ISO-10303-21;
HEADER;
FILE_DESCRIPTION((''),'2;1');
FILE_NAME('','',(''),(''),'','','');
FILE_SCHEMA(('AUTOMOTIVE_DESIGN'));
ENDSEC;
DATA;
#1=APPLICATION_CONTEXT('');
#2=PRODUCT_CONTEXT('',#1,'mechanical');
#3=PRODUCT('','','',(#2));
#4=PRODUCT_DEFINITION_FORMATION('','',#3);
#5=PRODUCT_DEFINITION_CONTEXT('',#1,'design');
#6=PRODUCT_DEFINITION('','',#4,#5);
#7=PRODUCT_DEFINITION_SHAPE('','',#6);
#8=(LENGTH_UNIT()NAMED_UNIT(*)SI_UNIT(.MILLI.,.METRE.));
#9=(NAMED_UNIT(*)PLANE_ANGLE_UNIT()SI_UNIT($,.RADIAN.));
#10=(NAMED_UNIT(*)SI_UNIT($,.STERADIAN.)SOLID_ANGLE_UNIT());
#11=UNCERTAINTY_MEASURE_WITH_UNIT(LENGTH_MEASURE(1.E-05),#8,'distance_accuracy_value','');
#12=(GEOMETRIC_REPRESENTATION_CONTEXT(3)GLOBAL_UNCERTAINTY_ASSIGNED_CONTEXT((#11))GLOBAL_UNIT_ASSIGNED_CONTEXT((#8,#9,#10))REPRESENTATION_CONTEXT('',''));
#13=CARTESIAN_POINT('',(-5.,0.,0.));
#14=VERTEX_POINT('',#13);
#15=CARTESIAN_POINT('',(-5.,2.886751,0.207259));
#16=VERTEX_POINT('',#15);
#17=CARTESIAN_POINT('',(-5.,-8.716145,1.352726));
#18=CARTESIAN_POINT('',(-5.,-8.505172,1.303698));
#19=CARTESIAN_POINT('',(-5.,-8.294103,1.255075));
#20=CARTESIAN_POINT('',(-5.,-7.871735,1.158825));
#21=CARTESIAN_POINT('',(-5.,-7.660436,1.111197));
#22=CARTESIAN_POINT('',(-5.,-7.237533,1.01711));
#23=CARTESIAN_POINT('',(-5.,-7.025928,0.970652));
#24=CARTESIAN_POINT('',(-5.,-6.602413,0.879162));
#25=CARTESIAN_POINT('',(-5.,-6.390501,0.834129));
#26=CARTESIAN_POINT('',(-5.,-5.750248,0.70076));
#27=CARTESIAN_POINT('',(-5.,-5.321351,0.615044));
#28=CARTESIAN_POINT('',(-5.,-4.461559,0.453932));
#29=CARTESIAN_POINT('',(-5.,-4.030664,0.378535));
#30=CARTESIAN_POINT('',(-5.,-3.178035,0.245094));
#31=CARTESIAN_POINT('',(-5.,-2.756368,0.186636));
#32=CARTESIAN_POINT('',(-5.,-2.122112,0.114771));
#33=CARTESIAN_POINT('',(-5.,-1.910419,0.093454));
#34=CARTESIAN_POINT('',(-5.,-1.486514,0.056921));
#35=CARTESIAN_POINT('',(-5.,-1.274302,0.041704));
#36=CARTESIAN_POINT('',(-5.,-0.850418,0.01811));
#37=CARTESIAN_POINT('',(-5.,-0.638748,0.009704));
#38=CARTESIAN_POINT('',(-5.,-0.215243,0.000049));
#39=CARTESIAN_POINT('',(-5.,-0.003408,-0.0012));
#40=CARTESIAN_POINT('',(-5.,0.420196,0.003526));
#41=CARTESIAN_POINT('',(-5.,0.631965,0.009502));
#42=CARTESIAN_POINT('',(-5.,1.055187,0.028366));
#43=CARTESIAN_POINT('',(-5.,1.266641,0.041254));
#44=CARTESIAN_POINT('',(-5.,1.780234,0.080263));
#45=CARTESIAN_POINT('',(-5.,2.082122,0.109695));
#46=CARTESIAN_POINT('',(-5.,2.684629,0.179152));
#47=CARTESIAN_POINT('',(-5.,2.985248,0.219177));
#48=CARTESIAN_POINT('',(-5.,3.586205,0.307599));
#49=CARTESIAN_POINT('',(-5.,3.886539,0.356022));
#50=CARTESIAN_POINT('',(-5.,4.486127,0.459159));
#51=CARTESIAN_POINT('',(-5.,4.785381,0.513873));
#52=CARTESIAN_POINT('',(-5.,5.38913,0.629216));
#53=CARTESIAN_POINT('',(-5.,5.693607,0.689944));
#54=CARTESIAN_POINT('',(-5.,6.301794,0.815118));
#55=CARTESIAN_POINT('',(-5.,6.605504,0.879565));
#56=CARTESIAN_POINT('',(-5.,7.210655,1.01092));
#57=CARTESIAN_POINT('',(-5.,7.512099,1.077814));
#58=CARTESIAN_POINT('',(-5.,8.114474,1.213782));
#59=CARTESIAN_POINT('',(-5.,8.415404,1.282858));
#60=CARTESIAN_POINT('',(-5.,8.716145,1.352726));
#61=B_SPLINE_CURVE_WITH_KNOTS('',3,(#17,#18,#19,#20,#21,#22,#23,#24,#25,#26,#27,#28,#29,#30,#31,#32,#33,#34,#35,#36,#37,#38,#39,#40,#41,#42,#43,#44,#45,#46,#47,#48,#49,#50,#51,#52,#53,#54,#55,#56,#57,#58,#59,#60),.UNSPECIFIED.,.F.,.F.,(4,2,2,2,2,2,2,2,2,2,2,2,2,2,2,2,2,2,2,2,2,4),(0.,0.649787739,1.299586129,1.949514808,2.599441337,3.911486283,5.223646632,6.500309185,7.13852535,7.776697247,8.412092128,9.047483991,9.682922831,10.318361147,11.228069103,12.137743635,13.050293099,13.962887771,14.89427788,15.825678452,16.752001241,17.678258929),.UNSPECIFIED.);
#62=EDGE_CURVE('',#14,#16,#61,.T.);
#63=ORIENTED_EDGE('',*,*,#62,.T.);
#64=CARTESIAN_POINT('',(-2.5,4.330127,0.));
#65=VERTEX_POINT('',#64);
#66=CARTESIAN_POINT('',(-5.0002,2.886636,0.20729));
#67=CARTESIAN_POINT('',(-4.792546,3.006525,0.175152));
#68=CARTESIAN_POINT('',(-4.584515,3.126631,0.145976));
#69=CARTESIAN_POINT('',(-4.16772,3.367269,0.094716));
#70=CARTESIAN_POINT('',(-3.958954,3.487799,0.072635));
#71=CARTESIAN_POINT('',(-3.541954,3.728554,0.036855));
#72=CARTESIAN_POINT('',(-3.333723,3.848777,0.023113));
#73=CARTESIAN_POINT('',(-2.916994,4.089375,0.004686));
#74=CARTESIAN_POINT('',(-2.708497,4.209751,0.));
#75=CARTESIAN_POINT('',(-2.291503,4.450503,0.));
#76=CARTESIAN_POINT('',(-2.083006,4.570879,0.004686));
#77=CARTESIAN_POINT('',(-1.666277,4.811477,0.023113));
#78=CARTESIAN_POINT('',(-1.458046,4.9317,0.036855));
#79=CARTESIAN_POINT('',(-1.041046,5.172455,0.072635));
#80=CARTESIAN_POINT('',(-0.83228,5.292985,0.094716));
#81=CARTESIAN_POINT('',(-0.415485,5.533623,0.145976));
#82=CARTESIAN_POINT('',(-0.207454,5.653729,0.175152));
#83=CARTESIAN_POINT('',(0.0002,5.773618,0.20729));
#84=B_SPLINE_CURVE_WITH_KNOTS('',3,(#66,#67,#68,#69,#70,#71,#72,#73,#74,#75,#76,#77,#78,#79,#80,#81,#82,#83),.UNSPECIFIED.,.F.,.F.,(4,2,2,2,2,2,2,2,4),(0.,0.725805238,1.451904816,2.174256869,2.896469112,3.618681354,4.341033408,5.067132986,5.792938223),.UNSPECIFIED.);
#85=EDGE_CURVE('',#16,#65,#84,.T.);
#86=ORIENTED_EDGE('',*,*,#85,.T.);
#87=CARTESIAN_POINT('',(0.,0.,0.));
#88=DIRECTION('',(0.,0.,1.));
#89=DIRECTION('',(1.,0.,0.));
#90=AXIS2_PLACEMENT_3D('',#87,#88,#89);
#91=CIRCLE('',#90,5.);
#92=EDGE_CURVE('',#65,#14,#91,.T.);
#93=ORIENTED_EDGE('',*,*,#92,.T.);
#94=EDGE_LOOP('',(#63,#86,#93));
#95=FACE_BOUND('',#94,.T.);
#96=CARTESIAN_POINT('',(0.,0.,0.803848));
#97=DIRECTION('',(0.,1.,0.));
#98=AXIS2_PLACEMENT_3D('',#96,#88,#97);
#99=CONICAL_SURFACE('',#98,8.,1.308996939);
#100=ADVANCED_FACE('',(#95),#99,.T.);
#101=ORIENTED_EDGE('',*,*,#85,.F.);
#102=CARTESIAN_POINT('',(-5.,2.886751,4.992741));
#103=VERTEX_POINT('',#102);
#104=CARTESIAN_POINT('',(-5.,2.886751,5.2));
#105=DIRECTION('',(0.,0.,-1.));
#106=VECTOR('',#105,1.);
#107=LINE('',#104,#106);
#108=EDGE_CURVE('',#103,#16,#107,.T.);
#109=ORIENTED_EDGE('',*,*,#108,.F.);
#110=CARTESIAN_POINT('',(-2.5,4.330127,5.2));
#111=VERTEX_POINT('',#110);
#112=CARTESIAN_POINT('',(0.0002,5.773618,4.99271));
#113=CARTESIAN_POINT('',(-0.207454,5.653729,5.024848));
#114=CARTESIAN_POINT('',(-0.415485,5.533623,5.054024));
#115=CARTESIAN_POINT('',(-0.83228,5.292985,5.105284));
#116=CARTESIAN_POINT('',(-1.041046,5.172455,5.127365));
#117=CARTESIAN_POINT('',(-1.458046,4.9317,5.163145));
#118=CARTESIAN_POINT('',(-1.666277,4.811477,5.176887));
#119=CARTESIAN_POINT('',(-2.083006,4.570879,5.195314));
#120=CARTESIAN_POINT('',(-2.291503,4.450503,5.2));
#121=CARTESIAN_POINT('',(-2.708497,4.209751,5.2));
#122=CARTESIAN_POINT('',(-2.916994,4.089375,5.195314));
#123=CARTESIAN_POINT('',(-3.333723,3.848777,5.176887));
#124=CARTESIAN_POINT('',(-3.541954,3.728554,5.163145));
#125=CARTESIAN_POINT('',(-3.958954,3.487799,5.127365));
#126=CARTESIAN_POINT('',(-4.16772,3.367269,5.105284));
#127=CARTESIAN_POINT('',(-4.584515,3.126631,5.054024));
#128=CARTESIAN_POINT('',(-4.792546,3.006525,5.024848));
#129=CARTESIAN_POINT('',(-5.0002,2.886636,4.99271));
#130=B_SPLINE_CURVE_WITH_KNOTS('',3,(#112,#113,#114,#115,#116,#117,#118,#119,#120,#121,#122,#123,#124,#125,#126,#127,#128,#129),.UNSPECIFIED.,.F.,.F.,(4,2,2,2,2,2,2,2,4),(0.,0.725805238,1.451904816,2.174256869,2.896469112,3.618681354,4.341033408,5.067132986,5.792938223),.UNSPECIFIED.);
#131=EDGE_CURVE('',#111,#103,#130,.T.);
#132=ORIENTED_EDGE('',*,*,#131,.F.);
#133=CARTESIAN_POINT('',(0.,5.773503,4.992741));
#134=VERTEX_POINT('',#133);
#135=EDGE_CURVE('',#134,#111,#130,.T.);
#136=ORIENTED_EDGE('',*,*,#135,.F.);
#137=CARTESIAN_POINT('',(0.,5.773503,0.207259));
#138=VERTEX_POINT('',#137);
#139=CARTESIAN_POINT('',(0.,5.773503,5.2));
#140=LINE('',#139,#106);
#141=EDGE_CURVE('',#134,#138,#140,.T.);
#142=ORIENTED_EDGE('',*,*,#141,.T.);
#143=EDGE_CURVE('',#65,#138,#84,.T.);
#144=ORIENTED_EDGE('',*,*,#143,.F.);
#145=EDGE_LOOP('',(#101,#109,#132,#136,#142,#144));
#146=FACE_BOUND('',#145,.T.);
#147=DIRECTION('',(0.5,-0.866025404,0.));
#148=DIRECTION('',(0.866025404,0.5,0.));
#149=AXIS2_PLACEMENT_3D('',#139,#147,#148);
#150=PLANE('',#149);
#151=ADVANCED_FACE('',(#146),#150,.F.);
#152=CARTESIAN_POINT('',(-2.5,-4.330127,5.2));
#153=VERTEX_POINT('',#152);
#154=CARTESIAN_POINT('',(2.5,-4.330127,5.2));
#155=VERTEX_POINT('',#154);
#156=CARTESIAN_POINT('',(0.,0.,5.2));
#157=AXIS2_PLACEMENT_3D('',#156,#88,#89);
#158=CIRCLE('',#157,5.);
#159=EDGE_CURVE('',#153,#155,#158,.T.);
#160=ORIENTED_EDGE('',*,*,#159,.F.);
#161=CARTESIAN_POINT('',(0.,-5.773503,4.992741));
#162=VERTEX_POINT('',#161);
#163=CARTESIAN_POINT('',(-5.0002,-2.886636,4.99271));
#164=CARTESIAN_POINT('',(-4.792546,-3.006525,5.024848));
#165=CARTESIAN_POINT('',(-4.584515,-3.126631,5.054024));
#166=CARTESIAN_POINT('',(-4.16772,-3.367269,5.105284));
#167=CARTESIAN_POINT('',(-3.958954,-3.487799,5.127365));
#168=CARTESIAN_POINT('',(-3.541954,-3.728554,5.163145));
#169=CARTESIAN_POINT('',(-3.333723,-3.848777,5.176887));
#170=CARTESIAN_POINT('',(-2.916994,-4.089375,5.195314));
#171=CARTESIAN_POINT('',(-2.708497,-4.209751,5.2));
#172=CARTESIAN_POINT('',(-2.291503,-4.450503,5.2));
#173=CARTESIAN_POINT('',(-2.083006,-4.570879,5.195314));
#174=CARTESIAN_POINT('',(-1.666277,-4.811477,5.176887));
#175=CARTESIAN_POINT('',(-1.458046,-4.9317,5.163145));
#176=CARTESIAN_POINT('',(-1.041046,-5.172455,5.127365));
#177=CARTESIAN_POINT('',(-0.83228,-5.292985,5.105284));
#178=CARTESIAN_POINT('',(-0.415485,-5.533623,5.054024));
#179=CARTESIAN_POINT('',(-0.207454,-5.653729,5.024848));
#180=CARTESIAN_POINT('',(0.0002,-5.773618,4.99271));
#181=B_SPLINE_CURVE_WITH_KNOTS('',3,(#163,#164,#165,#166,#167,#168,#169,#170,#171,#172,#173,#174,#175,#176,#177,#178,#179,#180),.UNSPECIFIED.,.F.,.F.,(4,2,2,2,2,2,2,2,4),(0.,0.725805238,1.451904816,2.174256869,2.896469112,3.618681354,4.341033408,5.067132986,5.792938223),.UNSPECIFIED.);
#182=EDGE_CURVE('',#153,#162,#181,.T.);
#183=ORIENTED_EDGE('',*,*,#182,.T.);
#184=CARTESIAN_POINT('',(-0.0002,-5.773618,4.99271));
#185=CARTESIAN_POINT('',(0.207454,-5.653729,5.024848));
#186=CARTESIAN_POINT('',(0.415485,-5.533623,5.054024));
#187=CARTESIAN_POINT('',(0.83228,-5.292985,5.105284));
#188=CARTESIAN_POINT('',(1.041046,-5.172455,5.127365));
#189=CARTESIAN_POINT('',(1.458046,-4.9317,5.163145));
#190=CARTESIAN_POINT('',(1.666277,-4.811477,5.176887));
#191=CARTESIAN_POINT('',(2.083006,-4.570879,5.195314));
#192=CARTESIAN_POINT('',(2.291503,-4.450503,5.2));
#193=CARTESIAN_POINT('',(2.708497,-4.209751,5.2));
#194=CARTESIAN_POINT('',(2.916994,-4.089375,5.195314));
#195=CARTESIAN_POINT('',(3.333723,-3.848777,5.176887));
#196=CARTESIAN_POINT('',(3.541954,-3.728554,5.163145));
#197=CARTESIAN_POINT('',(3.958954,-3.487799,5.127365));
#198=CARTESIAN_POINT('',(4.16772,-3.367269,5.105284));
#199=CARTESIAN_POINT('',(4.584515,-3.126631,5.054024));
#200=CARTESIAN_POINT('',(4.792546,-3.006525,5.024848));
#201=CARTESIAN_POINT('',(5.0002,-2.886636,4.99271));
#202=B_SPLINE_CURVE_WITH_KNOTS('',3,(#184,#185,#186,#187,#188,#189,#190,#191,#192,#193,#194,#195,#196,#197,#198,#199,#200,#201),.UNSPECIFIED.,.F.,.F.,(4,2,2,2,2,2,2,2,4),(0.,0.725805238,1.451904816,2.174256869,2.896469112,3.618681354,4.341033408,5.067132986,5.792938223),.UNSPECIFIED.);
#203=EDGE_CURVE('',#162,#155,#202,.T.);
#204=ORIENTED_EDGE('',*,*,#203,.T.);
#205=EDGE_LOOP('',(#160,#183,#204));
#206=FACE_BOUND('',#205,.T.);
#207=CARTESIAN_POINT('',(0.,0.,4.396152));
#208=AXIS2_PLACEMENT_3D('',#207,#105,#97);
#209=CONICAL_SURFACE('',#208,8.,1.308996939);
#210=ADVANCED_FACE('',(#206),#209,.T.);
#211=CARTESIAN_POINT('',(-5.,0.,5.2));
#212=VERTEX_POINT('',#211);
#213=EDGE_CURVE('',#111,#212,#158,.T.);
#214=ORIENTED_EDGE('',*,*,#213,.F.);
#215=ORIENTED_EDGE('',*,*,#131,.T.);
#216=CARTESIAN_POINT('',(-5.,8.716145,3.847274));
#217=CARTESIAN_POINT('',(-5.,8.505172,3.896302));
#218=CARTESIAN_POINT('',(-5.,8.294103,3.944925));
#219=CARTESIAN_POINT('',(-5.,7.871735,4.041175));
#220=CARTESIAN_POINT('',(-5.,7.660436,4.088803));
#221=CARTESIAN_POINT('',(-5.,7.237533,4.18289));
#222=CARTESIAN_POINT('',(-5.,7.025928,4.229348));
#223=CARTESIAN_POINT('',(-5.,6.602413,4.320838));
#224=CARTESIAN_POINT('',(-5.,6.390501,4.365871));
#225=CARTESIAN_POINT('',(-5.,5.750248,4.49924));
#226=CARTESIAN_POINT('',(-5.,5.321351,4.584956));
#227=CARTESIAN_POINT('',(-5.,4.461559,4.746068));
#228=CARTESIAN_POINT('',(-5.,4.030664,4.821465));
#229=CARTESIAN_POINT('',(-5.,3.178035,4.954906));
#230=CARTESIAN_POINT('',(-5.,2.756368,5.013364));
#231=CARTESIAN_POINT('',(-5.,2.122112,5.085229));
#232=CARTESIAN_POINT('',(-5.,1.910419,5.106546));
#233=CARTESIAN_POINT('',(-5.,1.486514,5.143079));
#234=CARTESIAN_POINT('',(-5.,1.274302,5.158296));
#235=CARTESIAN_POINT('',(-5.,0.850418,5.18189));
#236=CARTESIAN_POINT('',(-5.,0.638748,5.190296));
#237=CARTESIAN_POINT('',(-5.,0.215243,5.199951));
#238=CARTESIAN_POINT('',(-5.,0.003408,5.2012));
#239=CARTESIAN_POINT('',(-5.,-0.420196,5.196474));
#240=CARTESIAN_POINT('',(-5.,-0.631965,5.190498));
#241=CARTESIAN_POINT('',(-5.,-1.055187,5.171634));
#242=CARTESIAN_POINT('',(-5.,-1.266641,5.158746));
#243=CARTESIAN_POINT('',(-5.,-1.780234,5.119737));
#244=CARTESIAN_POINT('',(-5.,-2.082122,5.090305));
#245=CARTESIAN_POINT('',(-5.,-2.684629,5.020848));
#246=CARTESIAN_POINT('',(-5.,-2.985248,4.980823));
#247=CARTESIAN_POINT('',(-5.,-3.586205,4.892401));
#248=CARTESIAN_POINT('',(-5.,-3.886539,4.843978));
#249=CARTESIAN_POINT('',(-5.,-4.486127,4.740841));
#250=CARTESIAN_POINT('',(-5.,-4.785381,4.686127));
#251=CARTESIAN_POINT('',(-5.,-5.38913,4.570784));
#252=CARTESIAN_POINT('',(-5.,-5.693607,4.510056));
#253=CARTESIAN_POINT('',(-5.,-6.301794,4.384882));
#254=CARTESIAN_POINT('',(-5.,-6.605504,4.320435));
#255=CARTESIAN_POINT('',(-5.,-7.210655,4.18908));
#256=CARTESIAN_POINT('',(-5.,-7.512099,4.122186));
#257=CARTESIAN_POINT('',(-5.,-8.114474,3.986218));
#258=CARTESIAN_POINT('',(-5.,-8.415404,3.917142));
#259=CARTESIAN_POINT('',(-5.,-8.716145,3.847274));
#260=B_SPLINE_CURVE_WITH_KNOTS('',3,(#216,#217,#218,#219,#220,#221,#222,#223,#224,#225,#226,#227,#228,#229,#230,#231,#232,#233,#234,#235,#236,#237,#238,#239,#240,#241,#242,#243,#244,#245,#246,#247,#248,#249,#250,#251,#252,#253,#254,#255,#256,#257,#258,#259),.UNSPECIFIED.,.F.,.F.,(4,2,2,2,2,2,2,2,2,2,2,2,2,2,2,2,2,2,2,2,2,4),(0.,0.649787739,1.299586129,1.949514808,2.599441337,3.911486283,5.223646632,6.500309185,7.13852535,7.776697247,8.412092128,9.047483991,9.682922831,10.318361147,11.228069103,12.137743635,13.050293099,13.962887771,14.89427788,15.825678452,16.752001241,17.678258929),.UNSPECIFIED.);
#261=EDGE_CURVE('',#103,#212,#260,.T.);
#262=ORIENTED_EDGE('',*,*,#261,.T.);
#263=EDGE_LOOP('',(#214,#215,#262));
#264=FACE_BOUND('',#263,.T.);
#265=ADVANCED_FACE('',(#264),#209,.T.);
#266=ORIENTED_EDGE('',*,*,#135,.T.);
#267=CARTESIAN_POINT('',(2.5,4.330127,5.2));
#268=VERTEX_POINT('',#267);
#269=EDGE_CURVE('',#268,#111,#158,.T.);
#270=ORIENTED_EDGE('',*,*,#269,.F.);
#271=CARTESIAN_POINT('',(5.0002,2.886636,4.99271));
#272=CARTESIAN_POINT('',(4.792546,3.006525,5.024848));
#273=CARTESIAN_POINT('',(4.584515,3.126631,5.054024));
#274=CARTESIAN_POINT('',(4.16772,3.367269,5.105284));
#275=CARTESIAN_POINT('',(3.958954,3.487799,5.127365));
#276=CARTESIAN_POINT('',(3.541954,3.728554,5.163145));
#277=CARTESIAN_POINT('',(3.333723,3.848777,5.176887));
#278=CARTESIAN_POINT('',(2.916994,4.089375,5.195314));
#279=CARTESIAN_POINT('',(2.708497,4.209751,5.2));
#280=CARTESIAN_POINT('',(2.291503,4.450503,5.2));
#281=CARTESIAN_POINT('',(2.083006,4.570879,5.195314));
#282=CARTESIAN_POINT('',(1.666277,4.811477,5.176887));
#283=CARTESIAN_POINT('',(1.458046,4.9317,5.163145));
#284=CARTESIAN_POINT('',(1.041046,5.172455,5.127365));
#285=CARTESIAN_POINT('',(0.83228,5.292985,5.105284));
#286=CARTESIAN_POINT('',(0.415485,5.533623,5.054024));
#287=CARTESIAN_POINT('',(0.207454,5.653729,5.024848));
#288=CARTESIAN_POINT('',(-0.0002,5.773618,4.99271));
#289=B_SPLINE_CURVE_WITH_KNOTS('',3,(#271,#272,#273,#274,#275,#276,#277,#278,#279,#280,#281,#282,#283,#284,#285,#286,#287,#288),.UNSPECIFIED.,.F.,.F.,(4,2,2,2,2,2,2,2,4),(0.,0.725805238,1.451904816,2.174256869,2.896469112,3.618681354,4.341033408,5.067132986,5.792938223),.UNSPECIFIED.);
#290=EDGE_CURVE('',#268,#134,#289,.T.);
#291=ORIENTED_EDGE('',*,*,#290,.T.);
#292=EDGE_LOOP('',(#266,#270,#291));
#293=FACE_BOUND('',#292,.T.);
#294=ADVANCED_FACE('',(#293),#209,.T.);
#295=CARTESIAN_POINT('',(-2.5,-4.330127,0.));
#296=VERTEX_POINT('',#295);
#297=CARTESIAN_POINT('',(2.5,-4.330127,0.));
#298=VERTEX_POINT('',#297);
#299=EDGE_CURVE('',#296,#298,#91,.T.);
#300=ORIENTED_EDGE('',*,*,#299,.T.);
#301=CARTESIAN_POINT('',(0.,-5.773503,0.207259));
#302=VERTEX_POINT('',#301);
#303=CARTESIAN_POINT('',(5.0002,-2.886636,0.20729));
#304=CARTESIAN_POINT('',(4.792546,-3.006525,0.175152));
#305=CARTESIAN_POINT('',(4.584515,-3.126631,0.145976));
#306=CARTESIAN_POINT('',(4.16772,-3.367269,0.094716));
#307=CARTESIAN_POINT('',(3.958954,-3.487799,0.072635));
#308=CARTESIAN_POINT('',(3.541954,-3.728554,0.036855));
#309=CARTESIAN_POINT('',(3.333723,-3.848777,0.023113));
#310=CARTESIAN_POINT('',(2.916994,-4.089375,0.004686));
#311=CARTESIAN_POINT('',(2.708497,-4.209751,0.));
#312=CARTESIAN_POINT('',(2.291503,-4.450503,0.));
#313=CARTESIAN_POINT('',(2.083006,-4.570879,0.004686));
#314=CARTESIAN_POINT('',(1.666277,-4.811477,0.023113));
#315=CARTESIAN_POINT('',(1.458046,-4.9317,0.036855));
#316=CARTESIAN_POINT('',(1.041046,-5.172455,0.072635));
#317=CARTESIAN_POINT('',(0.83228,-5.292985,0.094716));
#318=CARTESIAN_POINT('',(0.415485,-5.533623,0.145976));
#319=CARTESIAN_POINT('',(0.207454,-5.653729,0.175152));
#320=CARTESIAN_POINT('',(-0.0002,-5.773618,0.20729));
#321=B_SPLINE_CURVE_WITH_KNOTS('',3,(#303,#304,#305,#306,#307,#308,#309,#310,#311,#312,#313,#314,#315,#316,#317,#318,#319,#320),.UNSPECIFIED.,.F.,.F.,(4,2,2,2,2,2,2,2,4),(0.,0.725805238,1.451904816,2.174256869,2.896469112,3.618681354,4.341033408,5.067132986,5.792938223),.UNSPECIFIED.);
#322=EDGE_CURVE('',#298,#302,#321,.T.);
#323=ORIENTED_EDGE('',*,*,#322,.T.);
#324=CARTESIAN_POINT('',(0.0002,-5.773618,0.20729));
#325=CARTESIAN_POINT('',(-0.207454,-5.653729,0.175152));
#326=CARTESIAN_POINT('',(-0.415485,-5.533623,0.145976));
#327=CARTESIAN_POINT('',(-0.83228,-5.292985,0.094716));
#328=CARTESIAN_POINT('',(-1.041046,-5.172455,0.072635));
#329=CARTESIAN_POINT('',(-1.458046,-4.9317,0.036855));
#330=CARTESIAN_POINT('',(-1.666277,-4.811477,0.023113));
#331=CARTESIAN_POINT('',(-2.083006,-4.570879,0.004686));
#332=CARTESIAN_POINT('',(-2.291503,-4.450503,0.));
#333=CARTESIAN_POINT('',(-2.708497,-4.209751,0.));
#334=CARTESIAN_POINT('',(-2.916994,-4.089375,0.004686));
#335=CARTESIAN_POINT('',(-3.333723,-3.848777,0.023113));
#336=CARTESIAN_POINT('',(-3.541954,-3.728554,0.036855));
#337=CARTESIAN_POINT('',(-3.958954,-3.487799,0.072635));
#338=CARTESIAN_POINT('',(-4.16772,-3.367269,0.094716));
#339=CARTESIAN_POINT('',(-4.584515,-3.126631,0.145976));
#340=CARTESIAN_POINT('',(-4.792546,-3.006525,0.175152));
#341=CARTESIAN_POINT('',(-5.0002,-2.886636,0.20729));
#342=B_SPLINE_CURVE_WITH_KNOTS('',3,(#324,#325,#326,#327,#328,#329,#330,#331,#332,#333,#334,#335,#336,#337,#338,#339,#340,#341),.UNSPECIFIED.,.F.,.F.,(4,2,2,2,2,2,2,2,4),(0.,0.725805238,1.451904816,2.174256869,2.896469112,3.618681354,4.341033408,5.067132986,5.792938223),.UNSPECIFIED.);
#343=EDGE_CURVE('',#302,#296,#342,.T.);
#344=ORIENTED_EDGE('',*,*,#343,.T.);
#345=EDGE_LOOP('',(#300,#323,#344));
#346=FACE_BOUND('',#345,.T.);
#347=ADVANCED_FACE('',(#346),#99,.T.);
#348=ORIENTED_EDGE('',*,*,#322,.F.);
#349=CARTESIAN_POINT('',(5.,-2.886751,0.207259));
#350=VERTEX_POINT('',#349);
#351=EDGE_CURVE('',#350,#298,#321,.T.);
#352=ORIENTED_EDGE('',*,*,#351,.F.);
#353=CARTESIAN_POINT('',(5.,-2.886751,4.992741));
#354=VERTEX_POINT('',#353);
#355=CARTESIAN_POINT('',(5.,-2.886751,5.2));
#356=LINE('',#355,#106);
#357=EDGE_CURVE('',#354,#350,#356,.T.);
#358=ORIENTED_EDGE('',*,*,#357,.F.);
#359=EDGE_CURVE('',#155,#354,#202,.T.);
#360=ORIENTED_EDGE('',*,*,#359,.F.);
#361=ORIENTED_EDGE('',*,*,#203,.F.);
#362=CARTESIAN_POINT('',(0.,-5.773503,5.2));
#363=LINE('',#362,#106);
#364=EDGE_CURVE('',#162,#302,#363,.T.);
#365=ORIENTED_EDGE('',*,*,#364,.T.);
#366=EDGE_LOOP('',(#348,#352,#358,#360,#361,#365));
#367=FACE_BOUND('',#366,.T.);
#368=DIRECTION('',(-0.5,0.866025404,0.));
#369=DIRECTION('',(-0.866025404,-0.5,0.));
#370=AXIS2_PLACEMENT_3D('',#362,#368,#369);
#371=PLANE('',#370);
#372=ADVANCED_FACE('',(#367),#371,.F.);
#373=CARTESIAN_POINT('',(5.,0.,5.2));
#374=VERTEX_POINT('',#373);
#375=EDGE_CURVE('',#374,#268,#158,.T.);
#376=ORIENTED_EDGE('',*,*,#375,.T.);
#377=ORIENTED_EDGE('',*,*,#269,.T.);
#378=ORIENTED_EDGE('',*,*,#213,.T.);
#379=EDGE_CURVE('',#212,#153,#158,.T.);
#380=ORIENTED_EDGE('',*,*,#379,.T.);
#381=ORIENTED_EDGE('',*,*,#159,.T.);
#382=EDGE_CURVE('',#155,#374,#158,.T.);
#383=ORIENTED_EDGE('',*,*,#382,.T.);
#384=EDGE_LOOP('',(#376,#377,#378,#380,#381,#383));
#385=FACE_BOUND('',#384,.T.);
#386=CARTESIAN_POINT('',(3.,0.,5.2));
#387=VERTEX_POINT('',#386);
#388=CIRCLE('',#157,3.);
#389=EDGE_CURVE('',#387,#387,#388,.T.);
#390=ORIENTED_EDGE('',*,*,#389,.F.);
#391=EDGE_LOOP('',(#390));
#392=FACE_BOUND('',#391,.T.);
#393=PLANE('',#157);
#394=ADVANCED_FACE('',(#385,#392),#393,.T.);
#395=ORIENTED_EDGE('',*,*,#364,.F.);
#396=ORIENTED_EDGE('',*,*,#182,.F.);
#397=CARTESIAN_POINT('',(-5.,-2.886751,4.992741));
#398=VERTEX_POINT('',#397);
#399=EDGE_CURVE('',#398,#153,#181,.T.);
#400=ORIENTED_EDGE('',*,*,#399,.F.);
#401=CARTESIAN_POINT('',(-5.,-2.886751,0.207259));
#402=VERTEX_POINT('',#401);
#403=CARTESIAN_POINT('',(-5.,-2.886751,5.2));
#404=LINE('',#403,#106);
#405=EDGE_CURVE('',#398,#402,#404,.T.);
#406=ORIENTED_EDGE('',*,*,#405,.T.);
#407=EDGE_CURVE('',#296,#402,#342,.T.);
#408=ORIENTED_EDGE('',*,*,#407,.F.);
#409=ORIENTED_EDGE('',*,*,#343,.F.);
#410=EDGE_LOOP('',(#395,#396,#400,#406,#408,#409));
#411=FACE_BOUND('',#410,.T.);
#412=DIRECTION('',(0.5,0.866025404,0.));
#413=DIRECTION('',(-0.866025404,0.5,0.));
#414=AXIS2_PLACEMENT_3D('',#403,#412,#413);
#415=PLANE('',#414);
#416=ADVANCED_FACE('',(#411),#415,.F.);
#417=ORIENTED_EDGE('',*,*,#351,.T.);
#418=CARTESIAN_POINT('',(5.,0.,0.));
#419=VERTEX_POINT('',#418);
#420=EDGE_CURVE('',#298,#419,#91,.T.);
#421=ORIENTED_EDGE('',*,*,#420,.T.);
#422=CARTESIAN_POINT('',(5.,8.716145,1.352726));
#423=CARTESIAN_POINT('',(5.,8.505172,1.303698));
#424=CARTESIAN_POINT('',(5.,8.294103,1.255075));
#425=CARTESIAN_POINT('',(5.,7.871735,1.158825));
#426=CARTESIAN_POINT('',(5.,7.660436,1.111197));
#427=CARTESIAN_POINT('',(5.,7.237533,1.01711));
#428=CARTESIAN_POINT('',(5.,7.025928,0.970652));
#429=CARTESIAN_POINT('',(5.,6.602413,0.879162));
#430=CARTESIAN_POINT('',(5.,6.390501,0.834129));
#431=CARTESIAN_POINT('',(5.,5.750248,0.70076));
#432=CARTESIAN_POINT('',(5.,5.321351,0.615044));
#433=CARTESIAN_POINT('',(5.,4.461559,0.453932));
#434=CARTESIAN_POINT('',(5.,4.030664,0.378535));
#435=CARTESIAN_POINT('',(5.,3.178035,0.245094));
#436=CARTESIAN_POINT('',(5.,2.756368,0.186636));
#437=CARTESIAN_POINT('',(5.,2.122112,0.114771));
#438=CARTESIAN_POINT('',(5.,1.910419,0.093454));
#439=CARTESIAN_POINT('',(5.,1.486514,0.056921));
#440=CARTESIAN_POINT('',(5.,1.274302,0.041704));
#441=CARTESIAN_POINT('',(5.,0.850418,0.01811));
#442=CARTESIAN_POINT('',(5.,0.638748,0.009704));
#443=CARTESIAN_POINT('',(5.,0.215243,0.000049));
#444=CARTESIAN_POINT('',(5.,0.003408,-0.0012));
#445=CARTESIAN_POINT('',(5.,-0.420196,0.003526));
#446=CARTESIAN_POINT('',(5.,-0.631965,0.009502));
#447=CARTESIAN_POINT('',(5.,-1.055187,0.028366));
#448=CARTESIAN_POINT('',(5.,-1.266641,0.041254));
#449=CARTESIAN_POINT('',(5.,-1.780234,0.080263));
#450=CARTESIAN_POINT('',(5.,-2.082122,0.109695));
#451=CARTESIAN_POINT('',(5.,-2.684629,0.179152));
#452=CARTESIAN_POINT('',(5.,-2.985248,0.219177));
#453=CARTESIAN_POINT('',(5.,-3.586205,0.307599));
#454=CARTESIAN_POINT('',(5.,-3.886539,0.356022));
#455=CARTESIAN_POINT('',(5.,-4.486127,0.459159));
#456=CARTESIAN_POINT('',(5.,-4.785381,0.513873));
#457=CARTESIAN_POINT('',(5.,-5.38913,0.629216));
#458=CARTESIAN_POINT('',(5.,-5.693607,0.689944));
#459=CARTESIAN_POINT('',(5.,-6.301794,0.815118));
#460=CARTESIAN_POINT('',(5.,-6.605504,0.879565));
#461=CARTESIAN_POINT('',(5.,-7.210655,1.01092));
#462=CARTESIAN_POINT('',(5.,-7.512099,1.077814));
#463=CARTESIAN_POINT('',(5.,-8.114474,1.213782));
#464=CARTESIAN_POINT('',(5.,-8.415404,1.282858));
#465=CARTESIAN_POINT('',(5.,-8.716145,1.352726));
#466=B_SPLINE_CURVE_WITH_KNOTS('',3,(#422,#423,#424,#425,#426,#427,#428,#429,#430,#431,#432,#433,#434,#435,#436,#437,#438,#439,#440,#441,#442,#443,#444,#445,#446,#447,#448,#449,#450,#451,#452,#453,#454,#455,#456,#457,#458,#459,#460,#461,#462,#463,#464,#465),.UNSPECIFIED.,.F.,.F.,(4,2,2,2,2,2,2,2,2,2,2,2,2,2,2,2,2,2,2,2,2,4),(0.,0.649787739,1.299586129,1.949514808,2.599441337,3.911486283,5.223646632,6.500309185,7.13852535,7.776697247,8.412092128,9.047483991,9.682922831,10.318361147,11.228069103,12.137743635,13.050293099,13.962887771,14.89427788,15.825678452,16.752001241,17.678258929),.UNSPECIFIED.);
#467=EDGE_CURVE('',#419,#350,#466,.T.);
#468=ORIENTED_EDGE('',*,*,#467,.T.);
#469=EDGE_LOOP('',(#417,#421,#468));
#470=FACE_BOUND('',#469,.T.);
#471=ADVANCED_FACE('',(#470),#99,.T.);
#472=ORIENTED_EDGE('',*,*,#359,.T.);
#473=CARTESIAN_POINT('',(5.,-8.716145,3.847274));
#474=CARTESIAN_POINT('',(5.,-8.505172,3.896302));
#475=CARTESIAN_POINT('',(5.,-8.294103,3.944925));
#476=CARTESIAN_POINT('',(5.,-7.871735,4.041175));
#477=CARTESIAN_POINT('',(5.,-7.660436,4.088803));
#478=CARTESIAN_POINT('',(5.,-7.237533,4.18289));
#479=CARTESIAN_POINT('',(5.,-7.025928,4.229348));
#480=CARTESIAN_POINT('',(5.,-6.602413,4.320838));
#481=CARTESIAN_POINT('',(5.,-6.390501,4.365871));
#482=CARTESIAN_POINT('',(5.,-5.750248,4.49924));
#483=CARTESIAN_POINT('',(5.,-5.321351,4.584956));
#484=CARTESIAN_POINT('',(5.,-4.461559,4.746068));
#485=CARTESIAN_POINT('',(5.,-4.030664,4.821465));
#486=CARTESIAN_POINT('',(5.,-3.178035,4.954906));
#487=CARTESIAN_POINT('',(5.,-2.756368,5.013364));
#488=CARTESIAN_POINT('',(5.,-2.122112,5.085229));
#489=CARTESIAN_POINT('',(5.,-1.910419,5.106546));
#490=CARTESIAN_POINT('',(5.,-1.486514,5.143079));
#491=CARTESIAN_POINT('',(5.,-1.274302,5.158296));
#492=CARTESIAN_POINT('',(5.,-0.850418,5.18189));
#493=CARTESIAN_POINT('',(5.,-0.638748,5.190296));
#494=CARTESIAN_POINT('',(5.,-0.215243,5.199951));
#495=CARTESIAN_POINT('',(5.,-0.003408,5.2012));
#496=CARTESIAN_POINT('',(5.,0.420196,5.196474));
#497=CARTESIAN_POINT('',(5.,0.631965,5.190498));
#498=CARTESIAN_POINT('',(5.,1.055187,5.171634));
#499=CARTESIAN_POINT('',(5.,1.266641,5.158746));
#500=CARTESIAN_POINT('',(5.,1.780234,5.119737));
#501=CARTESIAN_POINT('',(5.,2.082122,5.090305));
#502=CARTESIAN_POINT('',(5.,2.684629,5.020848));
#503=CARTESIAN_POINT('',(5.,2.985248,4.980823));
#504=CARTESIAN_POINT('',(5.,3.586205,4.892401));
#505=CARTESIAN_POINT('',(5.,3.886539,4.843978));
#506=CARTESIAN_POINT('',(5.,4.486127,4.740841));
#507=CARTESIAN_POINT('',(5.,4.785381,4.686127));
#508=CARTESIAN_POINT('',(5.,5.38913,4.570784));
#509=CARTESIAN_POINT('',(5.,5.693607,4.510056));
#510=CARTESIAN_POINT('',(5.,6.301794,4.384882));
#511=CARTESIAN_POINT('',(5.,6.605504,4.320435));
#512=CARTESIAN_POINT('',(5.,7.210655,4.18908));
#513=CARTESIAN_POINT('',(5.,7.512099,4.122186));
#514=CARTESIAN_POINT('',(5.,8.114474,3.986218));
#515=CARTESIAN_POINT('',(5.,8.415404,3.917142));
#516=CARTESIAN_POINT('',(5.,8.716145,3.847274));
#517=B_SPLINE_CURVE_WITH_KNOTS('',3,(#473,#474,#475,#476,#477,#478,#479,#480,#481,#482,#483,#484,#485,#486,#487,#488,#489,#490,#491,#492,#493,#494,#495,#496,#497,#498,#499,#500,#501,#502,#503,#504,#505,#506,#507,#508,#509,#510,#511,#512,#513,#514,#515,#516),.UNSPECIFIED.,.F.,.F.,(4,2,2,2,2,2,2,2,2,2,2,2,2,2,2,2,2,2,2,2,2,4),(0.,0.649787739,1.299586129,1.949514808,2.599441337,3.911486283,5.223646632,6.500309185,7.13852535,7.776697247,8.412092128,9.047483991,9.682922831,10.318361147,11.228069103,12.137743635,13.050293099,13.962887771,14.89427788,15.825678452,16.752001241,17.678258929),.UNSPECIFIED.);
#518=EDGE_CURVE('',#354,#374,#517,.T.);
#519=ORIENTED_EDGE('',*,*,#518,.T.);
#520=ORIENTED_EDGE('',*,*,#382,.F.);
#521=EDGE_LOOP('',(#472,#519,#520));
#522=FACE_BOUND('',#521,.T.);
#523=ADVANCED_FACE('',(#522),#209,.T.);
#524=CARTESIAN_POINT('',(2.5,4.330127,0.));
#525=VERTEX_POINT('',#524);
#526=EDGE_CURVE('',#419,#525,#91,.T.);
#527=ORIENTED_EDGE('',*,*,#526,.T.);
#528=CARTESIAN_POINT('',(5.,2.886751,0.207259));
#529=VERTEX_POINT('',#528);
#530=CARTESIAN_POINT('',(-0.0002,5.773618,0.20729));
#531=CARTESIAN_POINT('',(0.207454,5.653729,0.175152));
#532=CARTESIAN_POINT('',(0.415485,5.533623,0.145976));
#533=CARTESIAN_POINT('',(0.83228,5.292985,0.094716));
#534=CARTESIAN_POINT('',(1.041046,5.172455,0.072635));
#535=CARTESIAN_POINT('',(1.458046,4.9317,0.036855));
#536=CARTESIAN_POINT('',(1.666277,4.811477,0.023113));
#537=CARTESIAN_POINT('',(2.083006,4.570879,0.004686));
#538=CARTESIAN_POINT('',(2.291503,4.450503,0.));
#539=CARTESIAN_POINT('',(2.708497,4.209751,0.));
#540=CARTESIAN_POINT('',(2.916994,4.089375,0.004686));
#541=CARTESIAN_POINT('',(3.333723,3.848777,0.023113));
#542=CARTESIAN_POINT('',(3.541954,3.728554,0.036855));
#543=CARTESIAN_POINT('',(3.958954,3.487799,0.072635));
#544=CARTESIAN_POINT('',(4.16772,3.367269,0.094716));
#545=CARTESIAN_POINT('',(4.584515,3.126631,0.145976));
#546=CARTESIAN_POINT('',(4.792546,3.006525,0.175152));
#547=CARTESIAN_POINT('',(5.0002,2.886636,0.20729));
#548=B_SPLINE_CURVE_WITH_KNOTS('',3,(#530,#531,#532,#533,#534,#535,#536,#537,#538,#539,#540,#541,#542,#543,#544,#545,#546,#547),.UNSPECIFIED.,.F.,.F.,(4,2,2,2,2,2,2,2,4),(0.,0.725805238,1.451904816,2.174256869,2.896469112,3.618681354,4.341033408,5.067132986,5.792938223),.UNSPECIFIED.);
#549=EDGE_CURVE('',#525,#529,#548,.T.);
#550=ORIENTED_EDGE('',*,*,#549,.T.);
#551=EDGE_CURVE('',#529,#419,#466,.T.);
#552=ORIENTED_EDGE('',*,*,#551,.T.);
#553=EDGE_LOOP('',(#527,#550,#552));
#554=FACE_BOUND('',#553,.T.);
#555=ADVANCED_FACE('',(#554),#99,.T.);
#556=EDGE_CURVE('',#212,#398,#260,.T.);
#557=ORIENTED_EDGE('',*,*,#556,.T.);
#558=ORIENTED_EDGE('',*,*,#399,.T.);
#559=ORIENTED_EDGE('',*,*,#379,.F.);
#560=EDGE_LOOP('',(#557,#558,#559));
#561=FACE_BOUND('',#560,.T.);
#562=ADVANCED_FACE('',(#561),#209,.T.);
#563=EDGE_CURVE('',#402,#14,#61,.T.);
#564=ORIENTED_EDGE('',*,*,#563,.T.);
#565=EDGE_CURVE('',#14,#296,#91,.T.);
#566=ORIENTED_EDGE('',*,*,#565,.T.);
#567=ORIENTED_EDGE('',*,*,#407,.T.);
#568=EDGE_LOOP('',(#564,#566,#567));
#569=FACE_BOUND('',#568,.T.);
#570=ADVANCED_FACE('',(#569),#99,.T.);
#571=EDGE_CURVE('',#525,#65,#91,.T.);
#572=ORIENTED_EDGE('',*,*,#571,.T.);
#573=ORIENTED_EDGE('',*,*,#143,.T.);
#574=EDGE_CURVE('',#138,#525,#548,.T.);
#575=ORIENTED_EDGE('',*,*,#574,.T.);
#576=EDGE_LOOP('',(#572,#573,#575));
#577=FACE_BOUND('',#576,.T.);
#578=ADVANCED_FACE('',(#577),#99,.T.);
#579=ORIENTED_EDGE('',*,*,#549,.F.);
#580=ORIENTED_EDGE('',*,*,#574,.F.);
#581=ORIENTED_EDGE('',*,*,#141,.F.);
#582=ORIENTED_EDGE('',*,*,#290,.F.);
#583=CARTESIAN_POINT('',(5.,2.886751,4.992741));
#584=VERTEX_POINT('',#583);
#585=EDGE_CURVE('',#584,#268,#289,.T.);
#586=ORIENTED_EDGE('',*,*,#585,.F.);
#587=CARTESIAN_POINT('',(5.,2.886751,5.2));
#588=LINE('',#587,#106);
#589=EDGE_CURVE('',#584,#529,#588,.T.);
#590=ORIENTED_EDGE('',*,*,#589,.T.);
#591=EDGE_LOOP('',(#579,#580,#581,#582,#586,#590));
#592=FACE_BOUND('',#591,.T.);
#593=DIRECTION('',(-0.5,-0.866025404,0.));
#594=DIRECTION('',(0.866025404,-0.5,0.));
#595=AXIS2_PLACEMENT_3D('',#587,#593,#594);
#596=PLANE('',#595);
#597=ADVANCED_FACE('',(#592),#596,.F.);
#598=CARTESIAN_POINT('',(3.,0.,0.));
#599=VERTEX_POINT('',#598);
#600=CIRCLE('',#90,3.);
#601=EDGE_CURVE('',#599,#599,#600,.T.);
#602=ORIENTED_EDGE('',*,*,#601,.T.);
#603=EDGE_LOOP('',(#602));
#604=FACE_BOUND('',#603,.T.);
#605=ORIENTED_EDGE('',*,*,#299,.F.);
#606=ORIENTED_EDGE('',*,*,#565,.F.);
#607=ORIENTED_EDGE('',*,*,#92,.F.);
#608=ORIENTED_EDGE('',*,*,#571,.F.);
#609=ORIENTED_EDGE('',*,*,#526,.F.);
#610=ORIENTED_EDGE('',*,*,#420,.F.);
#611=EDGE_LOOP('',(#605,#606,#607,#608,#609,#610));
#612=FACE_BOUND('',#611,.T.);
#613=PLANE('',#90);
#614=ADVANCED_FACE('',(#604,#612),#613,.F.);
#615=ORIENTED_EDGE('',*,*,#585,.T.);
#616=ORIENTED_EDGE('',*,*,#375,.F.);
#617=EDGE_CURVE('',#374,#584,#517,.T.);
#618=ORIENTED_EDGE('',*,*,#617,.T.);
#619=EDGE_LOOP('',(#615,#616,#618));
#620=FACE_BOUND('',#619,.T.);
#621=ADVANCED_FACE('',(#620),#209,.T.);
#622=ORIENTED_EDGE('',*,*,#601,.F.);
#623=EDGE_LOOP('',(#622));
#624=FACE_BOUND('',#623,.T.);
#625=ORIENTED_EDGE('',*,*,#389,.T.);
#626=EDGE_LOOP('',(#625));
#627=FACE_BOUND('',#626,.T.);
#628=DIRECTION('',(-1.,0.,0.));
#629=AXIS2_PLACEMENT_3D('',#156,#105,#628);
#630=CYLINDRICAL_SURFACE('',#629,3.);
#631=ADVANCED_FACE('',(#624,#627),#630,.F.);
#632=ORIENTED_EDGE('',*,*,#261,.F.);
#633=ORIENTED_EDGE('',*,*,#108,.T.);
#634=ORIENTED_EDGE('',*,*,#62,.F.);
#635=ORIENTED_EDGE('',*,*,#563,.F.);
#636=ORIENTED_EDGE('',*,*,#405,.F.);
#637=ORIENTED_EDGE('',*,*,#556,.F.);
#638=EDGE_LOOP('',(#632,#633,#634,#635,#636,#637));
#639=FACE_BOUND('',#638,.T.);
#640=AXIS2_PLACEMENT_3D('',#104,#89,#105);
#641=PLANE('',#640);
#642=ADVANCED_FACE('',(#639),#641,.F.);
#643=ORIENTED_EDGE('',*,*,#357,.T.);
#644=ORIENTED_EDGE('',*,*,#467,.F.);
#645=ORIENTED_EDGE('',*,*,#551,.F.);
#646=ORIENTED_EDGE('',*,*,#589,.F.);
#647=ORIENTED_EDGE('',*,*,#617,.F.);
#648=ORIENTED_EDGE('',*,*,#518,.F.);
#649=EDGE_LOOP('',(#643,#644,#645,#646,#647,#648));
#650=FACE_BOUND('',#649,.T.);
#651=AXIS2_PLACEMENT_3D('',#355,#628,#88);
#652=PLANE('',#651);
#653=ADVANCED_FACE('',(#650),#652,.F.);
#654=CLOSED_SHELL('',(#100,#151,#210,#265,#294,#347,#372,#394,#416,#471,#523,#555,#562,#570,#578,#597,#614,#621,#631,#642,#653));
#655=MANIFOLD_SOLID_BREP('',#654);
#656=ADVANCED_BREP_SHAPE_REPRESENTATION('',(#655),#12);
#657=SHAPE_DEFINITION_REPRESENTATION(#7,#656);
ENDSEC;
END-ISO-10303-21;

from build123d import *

# Parameters (mm, degrees)
SKETCH1_R           = 3
BOSS_EXTRUDE1_DEPTH = 5.2


with BuildPart() as part:
    # Sketch1 → Boss-Extrude1 (new body)
    with BuildSketch(Plane.XY):
        Polygon((0, 5.773502692), (-5, 2.886751346), (-5, -2.886751346), (0, -5.773502692), (5, -2.886751346), (5, 2.886751346), align=None)
        Circle(SKETCH1_R, mode=Mode.SUBTRACT)
    extrude(amount=BOSS_EXTRUDE1_DEPTH)

    # Sketch2 → Cut-Revolve2 (revolve, cut)
    with BuildSketch(Plane(origin=(0, 0, 0), x_dir=(0, 0, -1), z_dir=(0, 1, 0))):
        Polygon((-4.396152423, -8), (-6.405771366, -0.5), (-6.405771366, -8), align=None)
    cut_revolve2 = revolve(axis=Axis((0, 0, -2.80878951), (0, 0, 1)), mode=Mode.SUBTRACT)

    # Mirror1: Cut-Revolve2 across plane
    add(cut_revolve2.mirror(Plane.XY.offset(2.6)), mode=Mode.SUBTRACT)


solid = part.part
